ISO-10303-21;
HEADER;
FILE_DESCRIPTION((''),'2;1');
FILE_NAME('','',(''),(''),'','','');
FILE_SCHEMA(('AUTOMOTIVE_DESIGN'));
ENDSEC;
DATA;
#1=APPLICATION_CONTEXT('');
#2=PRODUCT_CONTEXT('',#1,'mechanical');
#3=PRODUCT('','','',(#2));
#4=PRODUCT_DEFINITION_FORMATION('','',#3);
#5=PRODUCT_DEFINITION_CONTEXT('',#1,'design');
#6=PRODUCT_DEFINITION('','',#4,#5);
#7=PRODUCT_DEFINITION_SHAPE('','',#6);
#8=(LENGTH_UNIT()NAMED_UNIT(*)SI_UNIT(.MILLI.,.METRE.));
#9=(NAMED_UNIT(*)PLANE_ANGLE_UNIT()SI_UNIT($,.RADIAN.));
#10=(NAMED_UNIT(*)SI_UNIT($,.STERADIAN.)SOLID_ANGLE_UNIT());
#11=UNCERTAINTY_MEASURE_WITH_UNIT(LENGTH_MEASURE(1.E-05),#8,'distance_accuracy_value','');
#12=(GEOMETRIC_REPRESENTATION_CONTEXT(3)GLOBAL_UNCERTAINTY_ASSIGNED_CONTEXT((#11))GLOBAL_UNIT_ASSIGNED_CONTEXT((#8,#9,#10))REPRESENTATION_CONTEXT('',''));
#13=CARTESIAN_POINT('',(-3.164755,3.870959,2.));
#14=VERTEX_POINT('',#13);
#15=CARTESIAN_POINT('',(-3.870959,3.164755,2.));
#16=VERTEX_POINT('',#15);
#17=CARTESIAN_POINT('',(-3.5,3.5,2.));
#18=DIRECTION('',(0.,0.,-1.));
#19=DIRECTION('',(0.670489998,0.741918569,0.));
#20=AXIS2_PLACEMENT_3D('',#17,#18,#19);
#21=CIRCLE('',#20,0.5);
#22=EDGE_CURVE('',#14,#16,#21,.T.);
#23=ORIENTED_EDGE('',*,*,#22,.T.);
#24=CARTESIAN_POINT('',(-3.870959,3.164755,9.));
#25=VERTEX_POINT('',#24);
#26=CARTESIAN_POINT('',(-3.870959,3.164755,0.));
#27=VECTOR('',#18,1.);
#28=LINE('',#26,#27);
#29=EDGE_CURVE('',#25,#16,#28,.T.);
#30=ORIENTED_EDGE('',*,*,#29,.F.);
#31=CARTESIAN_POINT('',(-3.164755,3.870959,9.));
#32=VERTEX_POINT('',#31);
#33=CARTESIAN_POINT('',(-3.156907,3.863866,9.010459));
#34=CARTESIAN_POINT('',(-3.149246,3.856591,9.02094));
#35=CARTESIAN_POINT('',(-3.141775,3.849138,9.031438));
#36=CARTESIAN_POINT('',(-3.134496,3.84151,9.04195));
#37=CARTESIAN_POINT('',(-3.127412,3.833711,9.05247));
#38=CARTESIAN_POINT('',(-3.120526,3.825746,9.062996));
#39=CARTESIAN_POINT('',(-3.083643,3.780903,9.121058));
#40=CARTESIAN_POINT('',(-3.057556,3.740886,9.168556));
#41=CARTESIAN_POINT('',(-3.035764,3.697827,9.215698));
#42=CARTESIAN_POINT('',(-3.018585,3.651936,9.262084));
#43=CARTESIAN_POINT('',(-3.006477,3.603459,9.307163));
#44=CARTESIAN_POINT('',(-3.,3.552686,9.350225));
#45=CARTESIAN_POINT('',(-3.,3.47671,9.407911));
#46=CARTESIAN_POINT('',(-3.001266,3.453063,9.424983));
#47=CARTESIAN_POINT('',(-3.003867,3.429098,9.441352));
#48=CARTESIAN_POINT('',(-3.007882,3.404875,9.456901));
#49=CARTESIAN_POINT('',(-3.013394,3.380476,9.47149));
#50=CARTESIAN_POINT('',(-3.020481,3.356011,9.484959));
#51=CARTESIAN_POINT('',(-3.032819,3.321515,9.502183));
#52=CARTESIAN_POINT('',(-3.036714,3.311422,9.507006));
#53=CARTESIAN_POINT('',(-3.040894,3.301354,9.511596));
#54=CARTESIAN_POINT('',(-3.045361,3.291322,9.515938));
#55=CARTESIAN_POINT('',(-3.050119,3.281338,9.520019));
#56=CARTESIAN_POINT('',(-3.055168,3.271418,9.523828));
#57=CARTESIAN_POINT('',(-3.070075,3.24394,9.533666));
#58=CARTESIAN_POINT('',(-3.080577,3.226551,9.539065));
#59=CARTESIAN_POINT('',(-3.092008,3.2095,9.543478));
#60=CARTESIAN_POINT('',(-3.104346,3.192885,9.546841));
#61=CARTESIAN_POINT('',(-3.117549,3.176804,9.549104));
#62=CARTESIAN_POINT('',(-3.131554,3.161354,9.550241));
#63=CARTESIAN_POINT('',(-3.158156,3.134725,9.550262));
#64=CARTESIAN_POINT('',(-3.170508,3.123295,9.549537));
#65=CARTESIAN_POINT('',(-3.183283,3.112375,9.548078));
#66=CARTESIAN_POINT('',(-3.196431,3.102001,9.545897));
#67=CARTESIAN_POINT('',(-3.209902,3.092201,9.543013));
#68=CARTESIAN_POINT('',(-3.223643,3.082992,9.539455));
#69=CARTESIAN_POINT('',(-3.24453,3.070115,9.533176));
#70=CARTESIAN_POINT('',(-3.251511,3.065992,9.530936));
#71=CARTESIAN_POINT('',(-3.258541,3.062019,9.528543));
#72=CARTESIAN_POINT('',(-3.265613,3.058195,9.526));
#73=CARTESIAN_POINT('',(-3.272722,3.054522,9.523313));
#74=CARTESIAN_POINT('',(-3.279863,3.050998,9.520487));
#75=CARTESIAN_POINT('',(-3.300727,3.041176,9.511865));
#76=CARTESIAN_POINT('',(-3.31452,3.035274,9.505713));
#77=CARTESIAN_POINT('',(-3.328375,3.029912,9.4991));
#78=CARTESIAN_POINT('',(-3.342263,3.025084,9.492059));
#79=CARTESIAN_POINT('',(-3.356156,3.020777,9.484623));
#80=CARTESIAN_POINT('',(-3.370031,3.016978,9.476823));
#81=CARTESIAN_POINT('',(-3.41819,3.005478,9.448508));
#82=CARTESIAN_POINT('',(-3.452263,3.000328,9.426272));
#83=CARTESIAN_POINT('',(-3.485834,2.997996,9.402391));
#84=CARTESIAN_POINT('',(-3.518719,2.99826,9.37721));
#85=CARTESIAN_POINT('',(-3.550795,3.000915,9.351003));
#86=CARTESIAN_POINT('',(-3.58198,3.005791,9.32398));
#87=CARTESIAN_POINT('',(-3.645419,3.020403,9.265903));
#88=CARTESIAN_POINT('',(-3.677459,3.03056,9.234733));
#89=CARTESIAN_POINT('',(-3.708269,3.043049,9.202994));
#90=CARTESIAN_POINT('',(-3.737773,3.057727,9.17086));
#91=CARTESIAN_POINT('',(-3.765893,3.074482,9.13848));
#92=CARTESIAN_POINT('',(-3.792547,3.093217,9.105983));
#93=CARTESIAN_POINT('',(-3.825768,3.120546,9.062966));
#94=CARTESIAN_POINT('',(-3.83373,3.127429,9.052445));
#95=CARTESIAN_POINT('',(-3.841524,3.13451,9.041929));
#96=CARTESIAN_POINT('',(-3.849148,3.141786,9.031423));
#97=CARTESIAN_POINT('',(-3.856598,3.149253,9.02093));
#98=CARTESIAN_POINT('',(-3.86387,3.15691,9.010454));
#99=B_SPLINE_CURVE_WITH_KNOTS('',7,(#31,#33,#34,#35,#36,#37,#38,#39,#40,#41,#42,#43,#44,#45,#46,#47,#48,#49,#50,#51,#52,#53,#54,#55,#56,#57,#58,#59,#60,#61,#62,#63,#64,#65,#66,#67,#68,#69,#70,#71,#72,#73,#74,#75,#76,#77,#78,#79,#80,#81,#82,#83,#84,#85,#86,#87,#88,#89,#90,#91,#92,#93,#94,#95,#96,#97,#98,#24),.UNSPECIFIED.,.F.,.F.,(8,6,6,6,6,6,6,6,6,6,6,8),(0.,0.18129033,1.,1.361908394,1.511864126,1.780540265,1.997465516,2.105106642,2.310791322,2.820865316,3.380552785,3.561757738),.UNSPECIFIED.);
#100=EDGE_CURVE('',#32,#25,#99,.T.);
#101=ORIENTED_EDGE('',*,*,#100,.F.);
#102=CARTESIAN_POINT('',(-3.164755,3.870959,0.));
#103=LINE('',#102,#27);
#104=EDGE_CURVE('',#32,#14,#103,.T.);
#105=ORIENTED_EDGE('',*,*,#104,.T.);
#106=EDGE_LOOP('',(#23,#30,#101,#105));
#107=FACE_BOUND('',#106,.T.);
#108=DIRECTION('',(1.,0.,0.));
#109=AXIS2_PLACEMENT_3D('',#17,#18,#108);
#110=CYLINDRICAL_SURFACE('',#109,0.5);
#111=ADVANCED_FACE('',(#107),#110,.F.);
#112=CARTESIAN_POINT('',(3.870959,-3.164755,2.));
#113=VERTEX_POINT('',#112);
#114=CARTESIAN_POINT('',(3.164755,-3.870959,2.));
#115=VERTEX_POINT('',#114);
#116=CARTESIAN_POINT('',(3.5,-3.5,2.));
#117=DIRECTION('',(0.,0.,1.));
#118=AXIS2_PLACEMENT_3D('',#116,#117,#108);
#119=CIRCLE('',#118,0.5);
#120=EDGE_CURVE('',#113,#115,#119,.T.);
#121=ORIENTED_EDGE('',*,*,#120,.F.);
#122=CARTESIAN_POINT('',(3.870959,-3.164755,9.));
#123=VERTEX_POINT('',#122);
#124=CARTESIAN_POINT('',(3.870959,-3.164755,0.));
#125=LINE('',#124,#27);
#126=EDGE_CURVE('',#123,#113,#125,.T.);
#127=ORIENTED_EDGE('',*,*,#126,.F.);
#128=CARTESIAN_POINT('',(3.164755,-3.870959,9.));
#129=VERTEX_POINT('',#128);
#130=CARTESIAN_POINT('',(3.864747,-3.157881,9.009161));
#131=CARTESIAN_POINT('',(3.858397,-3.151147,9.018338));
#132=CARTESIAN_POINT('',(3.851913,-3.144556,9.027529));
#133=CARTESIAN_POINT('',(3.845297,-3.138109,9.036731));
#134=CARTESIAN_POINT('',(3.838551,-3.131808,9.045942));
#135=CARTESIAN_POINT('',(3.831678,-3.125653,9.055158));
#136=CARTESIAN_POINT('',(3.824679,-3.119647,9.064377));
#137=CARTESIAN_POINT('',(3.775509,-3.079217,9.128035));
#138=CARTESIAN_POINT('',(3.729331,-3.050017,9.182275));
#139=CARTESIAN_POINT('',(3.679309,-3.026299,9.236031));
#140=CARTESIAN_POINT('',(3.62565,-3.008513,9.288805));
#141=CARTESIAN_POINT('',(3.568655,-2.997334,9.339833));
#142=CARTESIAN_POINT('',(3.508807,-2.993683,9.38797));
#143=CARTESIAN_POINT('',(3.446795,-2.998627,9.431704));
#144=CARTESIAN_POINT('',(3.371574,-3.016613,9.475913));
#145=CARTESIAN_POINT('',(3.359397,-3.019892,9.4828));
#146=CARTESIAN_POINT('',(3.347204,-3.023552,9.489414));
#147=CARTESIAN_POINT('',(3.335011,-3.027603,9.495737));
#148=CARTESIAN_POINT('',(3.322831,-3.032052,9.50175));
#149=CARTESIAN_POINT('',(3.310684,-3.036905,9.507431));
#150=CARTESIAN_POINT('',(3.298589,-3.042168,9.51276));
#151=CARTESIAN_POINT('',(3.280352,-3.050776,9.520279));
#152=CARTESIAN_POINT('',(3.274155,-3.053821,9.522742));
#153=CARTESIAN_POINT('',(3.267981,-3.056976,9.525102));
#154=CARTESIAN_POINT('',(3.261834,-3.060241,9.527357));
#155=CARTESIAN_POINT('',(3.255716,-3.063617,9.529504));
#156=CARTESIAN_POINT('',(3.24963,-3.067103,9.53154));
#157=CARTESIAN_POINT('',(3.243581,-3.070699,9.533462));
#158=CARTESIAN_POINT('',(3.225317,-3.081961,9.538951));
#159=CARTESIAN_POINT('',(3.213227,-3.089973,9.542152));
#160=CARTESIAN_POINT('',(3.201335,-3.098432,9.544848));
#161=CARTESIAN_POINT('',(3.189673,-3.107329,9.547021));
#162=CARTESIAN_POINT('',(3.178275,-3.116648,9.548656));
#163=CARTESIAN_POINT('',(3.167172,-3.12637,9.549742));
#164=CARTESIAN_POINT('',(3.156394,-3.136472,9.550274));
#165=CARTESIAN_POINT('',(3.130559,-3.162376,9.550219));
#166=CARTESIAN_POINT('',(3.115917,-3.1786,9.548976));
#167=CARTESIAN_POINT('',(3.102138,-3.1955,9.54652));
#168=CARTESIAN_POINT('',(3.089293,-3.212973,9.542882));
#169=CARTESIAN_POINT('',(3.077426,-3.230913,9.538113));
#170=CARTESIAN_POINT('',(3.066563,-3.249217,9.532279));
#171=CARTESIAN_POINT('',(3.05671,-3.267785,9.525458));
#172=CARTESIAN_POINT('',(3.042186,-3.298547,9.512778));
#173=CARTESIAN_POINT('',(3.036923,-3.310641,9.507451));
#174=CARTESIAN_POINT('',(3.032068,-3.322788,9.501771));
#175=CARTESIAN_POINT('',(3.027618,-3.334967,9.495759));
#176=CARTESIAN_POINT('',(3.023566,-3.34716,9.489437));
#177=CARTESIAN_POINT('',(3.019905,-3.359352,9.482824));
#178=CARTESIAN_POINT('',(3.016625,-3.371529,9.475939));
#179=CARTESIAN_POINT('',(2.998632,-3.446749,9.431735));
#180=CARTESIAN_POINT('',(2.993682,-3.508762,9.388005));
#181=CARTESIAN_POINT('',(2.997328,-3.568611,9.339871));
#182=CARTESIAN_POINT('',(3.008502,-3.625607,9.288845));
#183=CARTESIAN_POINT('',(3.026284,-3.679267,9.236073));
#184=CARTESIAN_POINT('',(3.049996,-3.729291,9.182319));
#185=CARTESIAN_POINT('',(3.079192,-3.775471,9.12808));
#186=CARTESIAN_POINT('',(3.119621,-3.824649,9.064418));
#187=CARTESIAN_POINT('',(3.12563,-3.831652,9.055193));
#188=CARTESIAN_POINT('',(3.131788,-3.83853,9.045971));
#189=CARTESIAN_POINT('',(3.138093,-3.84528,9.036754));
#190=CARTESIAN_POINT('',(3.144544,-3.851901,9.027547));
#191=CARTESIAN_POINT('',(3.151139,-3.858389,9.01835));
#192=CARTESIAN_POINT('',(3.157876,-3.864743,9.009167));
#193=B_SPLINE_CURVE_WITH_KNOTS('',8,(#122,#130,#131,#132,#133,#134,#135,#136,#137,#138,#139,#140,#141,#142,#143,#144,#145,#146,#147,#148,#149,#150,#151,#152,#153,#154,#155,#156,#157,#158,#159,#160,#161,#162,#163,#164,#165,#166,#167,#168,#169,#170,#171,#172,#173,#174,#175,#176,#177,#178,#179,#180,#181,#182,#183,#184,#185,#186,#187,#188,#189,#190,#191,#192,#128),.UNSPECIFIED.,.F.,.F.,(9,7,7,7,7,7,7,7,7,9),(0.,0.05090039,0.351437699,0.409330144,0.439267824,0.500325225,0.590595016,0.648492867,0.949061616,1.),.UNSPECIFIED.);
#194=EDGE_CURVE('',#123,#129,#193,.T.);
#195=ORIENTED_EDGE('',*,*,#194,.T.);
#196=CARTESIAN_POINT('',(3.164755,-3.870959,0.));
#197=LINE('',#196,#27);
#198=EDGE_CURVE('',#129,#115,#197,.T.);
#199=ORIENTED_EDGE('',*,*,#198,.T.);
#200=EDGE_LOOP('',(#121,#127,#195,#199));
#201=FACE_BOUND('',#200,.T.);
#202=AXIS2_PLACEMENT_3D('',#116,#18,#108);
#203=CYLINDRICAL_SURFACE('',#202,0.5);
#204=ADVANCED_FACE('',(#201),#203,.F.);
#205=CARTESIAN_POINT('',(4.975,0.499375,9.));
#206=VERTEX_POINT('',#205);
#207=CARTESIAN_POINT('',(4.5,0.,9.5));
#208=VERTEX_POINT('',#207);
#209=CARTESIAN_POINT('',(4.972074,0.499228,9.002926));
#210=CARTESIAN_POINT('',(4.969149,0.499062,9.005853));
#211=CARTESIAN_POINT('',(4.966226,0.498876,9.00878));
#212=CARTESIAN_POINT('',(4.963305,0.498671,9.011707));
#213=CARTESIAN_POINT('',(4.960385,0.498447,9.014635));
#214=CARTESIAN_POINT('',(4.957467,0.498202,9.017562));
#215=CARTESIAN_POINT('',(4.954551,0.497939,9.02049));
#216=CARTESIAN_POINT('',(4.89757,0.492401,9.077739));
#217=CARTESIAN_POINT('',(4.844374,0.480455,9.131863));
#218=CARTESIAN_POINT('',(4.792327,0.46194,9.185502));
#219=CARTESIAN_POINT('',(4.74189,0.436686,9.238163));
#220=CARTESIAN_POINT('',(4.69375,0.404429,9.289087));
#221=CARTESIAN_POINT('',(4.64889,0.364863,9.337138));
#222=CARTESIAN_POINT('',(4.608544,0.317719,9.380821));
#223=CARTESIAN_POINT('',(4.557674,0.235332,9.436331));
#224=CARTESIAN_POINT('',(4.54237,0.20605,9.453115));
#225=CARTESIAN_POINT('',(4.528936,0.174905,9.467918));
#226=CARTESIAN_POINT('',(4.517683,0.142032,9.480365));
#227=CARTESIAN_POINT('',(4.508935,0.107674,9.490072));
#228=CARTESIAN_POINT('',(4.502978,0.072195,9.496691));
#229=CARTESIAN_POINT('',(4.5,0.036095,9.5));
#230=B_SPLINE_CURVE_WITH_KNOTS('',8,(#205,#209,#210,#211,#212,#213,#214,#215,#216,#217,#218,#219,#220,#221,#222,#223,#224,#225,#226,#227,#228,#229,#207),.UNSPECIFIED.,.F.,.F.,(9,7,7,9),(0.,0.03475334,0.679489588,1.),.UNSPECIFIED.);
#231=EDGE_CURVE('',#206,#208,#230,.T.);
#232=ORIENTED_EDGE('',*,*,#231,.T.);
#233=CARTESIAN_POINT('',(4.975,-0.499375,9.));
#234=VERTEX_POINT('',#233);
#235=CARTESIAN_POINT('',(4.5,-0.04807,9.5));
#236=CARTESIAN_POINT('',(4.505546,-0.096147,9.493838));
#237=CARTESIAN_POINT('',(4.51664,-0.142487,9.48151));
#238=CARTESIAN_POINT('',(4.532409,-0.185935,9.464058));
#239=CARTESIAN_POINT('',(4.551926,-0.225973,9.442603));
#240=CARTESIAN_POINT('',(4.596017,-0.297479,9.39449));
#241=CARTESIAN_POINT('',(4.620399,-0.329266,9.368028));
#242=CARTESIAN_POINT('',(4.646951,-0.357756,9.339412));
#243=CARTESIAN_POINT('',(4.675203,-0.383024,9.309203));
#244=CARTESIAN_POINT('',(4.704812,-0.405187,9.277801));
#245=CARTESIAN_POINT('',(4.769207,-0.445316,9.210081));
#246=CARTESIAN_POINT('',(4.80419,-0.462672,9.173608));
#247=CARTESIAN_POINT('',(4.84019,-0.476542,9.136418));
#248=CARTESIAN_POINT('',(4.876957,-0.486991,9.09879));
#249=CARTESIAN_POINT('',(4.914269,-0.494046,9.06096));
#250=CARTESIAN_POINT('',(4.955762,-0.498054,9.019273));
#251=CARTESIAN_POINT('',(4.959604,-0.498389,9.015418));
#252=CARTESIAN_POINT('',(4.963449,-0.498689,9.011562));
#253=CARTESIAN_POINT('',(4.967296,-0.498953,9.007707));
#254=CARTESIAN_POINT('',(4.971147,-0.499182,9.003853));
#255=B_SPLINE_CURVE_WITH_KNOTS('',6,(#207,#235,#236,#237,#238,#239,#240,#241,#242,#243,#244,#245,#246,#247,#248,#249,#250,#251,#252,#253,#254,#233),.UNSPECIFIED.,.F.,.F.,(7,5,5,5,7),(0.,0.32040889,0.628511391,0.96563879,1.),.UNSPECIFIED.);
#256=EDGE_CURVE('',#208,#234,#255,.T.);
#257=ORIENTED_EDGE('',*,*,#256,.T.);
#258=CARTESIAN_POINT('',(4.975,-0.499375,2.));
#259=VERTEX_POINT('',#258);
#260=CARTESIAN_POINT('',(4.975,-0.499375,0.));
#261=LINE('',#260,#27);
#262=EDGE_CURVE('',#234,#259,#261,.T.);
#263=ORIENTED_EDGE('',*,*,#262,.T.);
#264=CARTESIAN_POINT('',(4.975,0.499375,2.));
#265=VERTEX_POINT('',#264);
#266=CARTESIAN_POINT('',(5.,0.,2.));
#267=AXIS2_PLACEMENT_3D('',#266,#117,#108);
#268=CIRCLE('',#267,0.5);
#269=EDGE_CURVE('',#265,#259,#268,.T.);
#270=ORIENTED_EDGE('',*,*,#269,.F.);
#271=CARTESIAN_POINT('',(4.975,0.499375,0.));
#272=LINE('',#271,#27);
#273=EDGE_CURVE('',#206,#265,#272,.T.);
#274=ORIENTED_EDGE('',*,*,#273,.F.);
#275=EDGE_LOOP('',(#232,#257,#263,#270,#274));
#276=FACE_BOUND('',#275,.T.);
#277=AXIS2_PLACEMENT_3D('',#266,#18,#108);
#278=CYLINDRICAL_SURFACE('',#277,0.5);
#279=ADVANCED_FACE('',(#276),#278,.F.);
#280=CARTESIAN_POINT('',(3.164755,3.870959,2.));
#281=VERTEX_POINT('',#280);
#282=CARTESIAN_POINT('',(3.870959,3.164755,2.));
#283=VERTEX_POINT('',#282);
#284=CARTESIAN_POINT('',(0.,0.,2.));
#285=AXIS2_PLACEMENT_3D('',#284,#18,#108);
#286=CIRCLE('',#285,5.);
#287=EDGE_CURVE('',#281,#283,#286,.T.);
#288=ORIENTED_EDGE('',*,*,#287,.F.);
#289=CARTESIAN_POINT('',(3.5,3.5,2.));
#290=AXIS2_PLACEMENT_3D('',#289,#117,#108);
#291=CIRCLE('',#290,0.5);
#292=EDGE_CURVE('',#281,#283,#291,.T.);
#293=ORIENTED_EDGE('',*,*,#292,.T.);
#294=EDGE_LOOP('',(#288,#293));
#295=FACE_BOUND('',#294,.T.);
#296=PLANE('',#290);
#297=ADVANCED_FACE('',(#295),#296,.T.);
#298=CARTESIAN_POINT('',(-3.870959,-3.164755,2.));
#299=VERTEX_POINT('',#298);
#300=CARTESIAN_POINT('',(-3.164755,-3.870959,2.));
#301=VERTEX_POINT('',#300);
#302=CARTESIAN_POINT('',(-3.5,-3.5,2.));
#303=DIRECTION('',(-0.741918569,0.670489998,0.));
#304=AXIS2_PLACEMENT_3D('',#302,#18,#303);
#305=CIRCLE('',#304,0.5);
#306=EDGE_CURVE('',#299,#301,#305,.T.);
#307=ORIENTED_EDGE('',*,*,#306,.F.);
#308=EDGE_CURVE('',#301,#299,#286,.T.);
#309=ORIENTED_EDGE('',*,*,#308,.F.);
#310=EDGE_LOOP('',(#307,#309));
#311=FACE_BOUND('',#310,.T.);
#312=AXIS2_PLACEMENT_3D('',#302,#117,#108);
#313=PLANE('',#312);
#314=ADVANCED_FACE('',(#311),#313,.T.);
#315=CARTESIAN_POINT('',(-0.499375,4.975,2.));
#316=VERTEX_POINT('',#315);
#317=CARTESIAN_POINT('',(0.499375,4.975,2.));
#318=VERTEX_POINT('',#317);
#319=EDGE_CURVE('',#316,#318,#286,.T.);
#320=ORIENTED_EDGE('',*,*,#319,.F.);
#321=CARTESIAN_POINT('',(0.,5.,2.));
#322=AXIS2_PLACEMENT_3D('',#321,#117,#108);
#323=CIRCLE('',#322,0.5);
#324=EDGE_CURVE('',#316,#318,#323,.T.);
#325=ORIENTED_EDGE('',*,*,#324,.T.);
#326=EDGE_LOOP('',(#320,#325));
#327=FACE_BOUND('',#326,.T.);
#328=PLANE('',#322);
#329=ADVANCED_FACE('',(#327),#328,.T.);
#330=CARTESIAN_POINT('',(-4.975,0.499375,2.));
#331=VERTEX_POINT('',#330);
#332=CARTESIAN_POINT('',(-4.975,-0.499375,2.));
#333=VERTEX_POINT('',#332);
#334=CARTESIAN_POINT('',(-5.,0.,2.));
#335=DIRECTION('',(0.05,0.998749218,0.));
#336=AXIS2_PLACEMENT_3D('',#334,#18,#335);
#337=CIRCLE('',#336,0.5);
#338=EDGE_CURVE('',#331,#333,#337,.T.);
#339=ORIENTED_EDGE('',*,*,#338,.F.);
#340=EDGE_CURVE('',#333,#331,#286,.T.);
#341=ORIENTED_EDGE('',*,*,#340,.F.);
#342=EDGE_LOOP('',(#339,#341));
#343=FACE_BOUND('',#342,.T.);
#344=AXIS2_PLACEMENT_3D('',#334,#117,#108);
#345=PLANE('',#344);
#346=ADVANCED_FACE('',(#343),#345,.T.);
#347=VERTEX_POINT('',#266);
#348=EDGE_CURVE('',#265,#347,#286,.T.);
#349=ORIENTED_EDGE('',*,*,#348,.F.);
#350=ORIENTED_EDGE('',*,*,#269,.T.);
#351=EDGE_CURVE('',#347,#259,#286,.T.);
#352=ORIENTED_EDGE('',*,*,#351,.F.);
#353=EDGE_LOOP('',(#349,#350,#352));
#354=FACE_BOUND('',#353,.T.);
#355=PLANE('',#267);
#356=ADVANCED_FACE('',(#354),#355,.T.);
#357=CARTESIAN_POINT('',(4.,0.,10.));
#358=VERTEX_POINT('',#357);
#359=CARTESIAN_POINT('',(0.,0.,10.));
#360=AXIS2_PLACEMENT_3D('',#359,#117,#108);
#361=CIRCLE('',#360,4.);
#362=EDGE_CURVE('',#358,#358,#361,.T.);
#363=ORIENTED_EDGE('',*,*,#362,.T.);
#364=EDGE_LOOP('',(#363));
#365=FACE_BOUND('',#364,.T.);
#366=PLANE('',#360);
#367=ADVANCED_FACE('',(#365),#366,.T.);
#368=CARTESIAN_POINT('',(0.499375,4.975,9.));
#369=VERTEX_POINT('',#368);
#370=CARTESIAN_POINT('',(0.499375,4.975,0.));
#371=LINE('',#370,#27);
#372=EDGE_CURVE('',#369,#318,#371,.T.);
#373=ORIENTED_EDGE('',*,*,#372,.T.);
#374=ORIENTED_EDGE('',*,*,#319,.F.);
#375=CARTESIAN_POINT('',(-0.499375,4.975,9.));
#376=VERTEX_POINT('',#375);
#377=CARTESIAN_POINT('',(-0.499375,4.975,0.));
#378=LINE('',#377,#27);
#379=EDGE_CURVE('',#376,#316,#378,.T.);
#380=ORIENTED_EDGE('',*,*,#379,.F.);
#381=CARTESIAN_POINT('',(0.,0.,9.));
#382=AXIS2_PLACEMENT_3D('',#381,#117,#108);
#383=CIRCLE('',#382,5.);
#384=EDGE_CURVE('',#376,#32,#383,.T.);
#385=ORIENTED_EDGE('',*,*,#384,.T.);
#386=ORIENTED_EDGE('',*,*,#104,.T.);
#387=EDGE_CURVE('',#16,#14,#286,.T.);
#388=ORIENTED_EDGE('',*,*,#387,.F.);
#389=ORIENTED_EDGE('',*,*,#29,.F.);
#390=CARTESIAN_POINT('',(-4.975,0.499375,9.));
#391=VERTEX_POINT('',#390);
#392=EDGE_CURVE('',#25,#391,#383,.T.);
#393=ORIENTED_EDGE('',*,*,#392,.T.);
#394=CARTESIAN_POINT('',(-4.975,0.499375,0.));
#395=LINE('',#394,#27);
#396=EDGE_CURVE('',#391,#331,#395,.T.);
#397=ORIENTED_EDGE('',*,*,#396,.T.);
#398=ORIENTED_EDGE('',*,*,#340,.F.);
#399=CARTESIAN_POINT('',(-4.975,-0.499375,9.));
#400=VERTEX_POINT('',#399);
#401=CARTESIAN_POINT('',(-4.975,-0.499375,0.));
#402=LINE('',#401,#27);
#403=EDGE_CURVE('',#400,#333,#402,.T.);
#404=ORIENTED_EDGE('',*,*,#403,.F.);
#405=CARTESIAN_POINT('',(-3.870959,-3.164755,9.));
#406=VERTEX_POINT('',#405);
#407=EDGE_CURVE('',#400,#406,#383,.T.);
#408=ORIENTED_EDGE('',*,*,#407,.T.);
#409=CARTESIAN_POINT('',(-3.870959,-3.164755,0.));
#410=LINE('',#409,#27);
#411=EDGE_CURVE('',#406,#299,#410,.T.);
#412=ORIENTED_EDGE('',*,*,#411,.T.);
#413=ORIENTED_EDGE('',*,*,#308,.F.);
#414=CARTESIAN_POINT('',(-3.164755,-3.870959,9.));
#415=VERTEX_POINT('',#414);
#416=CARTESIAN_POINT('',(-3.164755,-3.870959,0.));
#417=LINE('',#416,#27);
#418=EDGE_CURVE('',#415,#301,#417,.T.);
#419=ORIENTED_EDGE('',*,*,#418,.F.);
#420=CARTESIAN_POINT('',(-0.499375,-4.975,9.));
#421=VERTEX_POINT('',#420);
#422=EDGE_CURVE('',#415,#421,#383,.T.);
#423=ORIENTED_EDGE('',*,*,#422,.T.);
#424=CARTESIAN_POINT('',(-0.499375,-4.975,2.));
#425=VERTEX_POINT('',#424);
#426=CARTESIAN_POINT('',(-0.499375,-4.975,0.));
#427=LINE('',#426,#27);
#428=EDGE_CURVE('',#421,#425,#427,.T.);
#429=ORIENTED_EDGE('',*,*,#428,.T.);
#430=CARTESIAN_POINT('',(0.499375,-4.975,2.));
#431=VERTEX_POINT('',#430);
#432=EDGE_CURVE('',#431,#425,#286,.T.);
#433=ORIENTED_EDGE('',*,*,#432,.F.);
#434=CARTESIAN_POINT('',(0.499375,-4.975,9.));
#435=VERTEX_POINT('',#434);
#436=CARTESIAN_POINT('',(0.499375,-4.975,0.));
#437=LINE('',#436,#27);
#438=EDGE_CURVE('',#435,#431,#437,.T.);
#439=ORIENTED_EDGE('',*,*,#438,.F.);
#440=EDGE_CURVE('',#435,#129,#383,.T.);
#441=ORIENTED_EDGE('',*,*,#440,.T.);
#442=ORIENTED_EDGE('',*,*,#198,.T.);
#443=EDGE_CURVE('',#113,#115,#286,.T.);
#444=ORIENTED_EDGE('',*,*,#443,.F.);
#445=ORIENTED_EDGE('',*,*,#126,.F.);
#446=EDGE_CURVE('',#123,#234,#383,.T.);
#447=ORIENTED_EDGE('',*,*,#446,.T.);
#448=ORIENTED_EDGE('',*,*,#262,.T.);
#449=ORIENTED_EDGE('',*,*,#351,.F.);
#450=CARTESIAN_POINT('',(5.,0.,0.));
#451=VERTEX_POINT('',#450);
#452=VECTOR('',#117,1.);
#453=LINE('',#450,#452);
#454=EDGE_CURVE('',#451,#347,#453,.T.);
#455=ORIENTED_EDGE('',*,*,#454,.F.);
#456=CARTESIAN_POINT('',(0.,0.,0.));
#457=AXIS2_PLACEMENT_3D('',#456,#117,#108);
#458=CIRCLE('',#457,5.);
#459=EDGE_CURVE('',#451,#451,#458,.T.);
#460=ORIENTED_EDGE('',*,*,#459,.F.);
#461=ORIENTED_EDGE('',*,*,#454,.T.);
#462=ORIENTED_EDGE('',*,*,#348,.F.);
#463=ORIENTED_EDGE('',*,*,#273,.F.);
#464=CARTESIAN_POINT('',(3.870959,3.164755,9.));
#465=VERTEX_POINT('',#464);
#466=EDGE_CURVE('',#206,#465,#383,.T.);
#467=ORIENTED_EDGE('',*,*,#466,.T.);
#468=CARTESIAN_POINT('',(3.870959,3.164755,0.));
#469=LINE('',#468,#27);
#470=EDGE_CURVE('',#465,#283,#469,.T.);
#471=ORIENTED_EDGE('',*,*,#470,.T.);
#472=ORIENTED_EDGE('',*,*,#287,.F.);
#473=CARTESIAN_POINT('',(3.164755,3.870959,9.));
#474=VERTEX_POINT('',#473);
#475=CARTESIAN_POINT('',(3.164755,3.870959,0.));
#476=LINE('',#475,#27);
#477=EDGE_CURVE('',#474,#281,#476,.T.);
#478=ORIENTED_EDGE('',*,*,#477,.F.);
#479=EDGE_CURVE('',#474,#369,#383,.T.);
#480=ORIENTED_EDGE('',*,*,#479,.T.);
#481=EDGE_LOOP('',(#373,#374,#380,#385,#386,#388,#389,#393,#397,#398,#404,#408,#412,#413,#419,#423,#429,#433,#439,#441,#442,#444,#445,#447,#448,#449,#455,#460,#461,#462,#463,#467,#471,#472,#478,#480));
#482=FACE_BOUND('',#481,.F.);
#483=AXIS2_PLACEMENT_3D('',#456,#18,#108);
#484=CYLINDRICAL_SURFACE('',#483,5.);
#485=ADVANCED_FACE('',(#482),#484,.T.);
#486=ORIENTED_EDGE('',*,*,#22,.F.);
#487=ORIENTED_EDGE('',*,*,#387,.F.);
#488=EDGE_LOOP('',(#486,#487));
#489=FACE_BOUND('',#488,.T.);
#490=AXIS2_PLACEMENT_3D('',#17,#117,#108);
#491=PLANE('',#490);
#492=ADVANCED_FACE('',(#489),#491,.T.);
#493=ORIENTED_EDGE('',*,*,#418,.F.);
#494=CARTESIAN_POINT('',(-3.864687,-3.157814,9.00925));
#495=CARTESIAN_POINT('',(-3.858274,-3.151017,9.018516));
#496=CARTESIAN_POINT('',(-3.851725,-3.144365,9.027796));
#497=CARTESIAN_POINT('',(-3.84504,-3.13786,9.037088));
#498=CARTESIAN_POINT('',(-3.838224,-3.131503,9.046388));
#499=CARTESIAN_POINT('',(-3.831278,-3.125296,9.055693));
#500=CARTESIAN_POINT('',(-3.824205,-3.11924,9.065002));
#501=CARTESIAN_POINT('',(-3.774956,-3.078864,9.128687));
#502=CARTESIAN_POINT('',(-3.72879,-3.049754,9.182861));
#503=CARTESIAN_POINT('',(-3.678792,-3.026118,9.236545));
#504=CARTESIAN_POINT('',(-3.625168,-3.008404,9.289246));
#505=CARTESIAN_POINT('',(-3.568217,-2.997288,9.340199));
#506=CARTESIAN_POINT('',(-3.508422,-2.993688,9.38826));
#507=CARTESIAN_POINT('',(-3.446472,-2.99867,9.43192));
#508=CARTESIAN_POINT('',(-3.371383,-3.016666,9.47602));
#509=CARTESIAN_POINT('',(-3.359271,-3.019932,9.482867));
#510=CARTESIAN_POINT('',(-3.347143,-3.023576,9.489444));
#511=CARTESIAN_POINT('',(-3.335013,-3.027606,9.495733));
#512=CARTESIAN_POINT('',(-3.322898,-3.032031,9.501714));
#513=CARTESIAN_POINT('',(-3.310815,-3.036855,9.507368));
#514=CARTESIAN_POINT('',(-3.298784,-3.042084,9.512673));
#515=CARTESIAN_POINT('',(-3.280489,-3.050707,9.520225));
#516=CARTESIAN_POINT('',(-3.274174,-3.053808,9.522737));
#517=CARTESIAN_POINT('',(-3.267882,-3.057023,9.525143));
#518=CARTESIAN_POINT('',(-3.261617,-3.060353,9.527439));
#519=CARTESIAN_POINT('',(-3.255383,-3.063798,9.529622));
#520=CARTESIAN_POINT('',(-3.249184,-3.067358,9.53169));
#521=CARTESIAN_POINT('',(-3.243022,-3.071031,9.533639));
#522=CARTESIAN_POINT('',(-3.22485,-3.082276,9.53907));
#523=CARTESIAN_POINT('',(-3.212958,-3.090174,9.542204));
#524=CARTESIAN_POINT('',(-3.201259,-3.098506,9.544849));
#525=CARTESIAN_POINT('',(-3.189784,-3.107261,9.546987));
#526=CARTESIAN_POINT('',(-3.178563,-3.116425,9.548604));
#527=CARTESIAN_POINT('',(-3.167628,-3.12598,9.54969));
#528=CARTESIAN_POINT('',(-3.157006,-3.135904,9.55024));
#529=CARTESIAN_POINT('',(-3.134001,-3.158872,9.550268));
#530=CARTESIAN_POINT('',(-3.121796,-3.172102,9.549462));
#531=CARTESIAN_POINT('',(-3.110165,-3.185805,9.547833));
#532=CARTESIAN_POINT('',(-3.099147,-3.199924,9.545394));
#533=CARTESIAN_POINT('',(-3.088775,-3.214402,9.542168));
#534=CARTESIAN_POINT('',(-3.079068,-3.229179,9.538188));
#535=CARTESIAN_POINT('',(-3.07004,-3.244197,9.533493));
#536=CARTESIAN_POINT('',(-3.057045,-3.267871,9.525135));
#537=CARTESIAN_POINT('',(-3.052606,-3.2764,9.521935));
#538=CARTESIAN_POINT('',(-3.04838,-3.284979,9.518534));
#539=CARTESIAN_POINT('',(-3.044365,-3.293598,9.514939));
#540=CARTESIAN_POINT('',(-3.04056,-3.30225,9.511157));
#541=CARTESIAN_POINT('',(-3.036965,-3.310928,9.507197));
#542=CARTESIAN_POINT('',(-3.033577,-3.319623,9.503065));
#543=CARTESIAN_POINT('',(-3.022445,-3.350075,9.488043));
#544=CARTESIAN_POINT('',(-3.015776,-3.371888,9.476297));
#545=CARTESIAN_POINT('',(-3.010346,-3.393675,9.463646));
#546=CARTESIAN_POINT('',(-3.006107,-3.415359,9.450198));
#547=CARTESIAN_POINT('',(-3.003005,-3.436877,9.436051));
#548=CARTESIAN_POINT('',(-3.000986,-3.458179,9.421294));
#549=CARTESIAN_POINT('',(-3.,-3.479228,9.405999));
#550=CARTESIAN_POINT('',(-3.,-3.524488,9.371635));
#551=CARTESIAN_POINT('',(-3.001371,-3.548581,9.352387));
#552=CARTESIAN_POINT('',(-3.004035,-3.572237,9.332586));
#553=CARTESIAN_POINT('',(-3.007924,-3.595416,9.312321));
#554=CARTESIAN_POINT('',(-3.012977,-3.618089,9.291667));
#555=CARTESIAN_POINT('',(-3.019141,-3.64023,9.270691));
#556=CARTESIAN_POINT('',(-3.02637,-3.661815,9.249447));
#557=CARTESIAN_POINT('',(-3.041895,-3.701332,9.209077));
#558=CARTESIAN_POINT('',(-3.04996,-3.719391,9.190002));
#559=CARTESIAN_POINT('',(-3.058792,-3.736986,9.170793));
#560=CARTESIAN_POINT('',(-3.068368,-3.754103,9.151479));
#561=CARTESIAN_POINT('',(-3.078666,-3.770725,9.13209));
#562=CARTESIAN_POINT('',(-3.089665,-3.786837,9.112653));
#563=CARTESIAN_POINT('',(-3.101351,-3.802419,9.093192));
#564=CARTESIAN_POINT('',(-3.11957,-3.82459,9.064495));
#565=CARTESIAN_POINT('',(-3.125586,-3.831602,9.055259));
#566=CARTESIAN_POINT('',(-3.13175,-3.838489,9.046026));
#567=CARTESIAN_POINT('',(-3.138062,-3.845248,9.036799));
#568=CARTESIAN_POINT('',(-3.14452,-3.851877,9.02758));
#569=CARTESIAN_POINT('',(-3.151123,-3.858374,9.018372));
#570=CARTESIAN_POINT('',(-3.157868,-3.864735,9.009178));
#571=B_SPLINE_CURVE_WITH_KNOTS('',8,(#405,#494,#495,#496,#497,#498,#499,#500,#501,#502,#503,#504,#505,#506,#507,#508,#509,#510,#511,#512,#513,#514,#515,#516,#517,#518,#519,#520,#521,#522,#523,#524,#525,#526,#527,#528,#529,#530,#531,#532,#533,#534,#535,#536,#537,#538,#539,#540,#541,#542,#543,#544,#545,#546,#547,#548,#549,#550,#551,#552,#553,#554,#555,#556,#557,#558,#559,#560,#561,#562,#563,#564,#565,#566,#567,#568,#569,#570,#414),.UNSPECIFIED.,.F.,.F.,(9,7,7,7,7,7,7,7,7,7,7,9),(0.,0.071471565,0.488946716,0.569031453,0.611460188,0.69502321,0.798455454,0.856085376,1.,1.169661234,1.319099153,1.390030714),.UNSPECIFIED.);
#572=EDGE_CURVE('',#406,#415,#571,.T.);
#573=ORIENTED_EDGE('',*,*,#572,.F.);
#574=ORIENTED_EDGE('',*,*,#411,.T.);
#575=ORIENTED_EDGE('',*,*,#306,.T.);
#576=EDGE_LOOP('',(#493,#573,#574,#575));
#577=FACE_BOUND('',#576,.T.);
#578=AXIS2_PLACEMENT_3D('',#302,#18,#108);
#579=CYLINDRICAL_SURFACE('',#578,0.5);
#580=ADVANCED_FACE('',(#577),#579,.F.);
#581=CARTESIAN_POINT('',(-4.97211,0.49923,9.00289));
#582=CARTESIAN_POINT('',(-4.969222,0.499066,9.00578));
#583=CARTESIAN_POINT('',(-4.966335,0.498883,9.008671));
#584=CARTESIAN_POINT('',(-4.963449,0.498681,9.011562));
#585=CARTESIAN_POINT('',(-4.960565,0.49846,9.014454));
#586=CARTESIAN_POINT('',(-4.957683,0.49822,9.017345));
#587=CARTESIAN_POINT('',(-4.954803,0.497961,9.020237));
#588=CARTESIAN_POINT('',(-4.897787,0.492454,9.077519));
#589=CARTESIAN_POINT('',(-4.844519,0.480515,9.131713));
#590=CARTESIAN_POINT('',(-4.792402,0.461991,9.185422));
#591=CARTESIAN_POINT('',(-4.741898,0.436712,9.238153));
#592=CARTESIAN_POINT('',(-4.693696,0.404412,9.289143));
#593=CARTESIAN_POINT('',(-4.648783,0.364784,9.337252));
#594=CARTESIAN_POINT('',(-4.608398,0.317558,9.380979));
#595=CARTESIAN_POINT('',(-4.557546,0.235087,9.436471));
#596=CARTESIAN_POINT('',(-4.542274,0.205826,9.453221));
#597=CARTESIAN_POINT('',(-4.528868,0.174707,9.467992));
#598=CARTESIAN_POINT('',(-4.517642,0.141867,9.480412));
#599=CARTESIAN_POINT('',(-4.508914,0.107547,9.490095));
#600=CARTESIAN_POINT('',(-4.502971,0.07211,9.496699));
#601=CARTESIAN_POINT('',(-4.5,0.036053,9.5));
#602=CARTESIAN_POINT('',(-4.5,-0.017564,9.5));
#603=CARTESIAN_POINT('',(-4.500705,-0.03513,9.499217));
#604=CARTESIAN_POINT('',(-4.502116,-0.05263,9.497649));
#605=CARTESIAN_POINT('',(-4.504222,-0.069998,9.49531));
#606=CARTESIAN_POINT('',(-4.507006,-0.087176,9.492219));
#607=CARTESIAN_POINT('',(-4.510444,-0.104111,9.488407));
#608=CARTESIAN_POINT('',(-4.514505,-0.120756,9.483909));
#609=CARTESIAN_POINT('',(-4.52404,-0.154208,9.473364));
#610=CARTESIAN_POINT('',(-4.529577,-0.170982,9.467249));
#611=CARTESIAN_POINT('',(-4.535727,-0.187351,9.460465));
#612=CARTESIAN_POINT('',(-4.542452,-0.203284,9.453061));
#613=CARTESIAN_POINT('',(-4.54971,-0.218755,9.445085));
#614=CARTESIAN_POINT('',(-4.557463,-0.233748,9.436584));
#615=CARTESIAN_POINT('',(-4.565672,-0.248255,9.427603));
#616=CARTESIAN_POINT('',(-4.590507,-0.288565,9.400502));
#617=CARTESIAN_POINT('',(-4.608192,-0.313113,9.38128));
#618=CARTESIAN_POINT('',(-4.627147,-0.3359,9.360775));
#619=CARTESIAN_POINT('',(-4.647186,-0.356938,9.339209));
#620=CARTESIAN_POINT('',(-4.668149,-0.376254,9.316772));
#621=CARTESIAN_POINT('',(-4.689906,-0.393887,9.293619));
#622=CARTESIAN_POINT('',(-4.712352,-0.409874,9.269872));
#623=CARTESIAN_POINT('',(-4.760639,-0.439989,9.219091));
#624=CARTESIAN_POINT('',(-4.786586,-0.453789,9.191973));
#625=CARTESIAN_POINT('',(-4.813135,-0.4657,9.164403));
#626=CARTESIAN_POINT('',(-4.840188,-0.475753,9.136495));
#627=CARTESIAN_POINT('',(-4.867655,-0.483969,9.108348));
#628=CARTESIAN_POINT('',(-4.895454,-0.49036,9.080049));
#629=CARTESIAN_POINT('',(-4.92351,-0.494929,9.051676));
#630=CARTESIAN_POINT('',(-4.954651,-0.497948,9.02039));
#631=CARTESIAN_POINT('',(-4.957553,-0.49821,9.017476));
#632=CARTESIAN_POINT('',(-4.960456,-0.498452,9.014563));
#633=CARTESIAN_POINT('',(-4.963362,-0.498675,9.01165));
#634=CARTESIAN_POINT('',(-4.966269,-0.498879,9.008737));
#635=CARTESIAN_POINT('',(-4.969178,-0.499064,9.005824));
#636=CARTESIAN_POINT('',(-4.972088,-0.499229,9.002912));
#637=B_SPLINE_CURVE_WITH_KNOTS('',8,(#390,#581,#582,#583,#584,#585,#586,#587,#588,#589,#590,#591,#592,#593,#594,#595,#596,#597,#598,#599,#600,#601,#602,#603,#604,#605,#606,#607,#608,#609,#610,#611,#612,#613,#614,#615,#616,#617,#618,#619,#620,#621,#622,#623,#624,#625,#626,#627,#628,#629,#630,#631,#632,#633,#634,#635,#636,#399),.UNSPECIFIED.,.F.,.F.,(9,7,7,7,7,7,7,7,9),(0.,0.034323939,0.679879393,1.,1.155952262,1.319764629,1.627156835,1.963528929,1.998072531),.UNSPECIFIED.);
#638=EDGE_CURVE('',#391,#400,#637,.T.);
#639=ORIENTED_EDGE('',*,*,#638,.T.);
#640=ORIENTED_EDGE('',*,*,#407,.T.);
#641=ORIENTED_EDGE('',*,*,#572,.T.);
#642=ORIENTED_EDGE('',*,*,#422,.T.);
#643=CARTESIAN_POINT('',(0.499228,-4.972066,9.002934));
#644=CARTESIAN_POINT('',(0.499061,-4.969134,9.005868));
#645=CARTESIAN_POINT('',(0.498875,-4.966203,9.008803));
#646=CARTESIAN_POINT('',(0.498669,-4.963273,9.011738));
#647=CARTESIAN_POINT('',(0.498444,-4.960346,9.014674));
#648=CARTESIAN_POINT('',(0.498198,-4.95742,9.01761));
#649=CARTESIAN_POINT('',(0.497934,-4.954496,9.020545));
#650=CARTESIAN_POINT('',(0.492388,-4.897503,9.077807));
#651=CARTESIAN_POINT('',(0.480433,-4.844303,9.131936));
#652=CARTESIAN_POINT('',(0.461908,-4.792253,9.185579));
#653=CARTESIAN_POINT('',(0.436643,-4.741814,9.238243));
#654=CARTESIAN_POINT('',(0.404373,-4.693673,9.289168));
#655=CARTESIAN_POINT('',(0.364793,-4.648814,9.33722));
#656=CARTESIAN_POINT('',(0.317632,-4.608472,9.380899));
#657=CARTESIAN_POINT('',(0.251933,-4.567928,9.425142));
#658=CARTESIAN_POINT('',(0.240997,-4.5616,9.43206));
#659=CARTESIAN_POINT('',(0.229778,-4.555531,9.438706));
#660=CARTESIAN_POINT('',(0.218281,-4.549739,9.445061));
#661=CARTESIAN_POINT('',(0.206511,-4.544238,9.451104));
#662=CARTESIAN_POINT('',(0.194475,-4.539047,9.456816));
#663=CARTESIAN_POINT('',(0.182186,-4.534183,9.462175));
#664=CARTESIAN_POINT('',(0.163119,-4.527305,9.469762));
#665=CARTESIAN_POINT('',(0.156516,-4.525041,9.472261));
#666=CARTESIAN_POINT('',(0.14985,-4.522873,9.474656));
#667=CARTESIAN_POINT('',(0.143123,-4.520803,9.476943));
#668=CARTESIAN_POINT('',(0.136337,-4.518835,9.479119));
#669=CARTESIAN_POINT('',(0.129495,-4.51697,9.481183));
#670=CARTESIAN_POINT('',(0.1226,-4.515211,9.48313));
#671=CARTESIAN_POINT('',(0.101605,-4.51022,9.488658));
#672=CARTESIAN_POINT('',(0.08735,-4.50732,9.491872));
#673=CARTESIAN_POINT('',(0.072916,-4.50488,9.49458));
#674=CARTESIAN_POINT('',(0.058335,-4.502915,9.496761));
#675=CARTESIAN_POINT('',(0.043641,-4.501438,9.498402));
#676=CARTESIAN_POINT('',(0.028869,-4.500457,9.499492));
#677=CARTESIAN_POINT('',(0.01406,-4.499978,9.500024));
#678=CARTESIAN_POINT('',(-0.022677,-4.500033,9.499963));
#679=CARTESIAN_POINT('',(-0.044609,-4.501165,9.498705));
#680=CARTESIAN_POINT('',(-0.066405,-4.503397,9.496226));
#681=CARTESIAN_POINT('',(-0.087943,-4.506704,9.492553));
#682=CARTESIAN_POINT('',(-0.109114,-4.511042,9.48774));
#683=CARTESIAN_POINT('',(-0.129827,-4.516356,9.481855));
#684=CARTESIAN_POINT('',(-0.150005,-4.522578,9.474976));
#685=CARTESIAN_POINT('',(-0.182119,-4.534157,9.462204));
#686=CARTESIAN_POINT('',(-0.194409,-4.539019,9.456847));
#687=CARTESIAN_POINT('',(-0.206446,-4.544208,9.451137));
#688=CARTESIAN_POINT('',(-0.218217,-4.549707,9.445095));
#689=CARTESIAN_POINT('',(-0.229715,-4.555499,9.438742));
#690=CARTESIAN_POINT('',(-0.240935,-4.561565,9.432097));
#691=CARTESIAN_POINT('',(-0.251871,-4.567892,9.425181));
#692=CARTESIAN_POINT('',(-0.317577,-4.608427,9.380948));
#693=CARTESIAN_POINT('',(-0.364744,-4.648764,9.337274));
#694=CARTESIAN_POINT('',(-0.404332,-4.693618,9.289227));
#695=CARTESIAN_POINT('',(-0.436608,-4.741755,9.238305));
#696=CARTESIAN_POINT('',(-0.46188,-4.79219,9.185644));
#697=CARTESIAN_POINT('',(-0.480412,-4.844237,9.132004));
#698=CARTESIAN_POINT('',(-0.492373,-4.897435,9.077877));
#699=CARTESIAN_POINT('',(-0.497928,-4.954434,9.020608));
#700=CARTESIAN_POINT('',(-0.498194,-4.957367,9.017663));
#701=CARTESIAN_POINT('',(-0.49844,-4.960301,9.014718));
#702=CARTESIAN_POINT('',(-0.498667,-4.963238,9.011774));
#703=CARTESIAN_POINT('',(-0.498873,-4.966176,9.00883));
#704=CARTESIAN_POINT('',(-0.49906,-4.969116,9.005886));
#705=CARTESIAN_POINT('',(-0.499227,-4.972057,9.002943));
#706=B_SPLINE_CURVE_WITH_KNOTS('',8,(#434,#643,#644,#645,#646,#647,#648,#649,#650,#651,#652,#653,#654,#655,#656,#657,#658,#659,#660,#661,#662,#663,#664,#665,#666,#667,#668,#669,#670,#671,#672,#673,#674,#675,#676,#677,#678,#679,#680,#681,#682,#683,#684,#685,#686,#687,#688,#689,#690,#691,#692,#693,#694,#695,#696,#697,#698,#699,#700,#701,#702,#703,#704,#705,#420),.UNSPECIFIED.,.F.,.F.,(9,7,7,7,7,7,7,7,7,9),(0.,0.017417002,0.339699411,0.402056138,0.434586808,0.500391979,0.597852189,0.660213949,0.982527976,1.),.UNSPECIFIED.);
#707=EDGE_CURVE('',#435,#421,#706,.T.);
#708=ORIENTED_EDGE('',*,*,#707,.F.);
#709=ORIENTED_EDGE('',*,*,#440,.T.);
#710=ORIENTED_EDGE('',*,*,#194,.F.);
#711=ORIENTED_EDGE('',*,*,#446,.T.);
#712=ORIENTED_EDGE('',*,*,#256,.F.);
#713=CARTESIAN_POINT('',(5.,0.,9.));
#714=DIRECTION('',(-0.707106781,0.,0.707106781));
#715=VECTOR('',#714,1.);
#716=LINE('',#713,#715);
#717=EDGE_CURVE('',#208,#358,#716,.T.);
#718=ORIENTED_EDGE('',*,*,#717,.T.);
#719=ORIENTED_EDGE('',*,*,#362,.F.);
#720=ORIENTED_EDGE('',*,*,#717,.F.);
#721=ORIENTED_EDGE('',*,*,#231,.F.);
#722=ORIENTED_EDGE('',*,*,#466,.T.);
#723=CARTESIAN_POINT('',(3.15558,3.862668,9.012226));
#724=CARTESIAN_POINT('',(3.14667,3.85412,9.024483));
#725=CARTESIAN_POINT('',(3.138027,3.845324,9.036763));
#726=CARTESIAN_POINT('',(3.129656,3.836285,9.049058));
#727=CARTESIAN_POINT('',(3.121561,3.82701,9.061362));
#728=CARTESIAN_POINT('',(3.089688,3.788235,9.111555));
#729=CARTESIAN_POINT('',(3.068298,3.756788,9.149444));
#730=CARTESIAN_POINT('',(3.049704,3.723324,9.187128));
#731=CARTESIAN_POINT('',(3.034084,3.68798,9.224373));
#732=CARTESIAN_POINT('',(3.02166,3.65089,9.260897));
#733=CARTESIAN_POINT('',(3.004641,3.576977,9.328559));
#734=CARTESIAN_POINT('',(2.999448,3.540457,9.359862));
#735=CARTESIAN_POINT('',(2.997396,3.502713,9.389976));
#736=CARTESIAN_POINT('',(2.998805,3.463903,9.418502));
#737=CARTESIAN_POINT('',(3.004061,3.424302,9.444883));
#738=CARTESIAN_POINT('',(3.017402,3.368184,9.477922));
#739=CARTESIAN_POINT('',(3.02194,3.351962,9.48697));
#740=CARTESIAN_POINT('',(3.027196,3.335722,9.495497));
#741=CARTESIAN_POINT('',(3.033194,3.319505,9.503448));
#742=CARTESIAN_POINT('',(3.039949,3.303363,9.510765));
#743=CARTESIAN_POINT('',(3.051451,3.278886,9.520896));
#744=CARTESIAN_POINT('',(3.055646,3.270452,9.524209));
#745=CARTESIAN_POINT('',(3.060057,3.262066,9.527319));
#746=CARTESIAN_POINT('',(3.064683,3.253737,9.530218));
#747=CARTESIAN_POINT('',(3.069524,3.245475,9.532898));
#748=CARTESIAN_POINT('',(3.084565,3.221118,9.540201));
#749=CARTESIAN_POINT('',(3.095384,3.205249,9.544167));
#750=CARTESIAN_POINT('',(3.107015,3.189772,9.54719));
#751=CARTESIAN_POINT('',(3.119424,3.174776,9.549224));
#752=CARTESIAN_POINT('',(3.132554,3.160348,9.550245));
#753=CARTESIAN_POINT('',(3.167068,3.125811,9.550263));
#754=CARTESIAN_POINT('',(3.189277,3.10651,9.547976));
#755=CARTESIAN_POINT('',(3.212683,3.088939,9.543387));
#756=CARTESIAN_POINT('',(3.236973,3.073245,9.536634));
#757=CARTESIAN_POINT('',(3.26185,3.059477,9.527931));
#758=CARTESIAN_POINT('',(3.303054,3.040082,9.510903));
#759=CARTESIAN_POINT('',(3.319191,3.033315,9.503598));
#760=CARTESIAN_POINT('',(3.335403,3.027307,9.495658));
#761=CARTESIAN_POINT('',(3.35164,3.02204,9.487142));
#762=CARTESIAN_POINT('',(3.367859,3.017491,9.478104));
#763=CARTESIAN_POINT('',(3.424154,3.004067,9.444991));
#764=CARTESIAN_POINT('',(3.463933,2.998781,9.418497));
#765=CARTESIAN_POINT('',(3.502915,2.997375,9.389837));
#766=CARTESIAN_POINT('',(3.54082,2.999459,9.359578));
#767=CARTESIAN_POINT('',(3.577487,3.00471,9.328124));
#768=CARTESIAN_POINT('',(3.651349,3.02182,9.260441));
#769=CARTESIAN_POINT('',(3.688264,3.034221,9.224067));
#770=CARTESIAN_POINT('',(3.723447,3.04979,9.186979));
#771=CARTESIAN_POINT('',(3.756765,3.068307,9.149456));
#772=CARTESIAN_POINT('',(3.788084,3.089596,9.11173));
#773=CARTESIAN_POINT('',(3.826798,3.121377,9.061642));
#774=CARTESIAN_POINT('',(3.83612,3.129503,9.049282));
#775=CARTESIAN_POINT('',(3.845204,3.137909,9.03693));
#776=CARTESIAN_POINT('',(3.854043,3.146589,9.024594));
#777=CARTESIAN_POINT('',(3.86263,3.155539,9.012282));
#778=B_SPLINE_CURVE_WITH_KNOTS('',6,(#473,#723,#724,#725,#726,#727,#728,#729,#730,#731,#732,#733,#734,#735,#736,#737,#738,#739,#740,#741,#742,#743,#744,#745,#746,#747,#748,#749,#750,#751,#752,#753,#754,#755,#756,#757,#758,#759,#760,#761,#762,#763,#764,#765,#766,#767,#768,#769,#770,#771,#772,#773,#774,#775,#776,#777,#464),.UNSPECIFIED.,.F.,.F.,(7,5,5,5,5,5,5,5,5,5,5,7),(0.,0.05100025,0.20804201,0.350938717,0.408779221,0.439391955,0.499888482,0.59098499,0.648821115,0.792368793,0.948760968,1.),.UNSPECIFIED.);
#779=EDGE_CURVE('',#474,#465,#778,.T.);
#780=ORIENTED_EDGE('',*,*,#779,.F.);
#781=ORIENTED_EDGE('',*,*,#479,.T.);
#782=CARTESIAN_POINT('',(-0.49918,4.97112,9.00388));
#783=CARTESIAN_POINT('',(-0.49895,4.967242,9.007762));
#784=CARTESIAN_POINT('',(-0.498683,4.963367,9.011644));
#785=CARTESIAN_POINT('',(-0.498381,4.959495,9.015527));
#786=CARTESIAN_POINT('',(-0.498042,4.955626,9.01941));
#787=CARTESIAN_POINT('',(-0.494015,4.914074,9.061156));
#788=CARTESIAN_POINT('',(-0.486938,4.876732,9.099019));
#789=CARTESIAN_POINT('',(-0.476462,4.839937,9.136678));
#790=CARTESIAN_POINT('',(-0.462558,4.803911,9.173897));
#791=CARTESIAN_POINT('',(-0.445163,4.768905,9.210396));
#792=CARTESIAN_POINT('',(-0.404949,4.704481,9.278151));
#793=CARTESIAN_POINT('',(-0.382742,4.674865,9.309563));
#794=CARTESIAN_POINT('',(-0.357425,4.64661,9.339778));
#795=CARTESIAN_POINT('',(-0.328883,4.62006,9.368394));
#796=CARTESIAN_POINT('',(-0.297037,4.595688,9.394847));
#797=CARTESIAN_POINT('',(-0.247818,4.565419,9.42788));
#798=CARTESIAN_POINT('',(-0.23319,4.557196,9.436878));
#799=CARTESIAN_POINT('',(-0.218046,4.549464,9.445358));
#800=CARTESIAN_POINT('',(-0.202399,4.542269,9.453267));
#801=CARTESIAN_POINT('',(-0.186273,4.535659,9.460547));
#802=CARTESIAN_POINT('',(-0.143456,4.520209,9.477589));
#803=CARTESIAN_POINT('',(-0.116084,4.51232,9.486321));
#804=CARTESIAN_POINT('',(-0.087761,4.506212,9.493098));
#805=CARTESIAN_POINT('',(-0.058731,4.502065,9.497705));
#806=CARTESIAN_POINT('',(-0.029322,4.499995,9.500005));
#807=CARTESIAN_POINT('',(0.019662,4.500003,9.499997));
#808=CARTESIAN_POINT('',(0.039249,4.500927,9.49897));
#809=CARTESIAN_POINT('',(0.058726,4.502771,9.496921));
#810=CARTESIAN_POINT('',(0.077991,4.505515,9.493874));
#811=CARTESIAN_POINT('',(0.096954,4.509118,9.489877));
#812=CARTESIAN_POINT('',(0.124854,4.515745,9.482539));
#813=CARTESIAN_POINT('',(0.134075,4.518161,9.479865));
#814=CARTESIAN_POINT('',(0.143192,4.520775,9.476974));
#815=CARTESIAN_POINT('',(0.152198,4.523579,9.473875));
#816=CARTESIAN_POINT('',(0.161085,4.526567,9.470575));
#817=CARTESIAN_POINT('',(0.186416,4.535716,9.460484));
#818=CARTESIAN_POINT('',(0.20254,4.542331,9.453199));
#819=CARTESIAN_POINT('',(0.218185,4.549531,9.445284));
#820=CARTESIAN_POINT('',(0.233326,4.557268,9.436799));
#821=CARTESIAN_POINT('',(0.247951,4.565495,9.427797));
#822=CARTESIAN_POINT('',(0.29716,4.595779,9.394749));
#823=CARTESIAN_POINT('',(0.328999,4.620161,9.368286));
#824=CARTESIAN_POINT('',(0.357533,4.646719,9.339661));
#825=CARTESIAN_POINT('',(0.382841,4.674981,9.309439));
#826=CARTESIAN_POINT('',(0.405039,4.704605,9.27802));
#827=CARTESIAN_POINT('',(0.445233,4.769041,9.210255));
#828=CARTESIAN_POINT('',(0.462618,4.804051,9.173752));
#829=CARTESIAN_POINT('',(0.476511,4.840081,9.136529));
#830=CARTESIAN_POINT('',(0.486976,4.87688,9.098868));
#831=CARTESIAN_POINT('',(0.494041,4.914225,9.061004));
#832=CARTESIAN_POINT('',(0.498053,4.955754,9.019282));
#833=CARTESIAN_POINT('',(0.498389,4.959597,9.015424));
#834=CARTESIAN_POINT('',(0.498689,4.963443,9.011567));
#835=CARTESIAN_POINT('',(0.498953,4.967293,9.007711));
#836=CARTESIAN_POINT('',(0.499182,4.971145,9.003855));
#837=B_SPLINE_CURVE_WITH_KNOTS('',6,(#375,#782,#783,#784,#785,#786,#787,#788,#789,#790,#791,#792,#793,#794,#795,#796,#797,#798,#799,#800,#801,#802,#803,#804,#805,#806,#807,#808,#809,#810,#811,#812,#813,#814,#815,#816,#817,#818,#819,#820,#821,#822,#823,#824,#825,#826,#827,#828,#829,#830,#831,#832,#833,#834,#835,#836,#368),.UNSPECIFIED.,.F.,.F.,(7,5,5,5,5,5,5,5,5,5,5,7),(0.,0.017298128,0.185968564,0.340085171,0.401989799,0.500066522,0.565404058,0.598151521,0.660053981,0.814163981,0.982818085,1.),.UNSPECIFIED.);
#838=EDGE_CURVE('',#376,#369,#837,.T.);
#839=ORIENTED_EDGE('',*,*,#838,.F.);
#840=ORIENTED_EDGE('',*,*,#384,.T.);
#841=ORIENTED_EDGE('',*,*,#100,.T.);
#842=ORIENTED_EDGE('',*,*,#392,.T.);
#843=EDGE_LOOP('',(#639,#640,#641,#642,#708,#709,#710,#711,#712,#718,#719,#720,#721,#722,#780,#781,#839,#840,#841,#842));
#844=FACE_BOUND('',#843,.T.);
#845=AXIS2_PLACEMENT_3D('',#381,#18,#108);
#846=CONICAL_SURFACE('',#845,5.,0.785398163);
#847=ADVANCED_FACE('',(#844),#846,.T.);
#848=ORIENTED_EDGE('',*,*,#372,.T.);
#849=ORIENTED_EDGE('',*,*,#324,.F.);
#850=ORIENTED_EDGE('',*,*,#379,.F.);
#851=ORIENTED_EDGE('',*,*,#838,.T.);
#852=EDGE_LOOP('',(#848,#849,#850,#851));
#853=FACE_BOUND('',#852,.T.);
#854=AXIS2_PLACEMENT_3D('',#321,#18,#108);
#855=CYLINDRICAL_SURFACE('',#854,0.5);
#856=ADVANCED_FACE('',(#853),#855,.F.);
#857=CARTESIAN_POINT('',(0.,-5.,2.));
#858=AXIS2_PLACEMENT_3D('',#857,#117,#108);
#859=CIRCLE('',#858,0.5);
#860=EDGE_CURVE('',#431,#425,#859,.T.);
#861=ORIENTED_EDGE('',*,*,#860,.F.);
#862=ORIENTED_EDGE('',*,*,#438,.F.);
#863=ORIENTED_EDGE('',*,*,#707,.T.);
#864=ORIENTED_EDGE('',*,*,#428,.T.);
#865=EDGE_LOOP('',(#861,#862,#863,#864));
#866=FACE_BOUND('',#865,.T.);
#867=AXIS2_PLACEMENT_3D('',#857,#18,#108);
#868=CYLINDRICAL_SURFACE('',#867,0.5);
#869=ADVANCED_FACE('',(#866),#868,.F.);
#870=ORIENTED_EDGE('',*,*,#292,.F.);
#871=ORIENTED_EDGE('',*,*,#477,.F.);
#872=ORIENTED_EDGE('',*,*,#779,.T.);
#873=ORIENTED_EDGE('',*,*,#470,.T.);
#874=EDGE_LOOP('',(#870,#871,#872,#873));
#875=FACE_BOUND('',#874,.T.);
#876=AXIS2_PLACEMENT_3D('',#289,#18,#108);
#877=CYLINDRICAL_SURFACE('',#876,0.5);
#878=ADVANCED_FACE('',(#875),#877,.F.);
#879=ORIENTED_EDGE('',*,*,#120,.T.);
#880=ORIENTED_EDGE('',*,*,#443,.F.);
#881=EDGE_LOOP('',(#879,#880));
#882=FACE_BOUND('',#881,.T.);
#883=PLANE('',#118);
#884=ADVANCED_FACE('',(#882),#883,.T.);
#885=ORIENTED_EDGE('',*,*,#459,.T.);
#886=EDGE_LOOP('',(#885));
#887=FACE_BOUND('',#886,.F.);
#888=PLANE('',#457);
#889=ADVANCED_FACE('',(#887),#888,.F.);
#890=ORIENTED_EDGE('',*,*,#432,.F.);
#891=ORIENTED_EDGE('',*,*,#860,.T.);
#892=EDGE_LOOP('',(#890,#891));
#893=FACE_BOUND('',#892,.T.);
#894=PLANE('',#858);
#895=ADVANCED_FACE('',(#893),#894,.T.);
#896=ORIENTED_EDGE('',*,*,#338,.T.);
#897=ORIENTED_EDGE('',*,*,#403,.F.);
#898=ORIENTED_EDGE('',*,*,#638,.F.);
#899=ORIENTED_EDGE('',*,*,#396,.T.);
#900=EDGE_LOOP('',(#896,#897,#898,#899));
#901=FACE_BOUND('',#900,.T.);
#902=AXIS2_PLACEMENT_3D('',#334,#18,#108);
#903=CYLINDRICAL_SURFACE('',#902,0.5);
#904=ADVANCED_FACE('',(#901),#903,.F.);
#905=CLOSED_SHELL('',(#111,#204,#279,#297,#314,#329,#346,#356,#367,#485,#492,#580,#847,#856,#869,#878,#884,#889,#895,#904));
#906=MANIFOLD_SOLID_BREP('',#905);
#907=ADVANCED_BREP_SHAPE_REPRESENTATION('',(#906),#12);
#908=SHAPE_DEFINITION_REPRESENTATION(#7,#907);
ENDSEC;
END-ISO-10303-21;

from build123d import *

# Parameters (mm, degrees)
CYLINDER002_R     = 0.5
CYLINDER002_DEPTH = 10
CYLINDER003_R     = 0.5
CYLINDER003_DEPTH = 10
CYLINDER004_R     = 0.5
CYLINDER004_DEPTH = 10
CYLINDER005_R     = 0.5
CYLINDER005_DEPTH = 10
CYLINDER006_R     = 0.5
CYLINDER006_DEPTH = 10
CYLINDER007_R     = 0.5
CYLINDER007_DEPTH = 10
CYLINDER008_R     = 0.5
CYLINDER008_DEPTH = 10
CYLINDER001_R     = 0.5
CYLINDER001_DEPTH = 10
CYLINDER_R        = 5
CYLINDER_DEPTH    = 10
CHAMFER_SIZE      = 1


with BuildPart() as cylinder002:
    # Cylinder002 → Cylinder002 (new body)
    with BuildSketch(Plane(origin=(-5, 0, 2), x_dir=(1, 0, 0), z_dir=(0, 0, 1))):
        Circle(CYLINDER002_R)
    extrude(amount=CYLINDER002_DEPTH)


with BuildPart() as cylinder003:
    # Cylinder003 → Cylinder003 (new body)
    with BuildSketch(Plane(origin=(0, 5, 2), x_dir=(1, 0, 0), z_dir=(0, 0, 1))):
        Circle(CYLINDER003_R)
    extrude(amount=CYLINDER003_DEPTH)


with BuildPart() as cylinder004:
    # Cylinder004 → Cylinder004 (new body)
    with BuildSketch(Plane(origin=(0, -5, 2), x_dir=(1, 0, 0), z_dir=(0, 0, 1))):
        Circle(CYLINDER004_R)
    extrude(amount=CYLINDER004_DEPTH)


with BuildPart() as cylinder005:
    # Cylinder005 → Cylinder005 (new body)
    with BuildSketch(Plane(origin=(3.5, -3.5, 2), x_dir=(1, 0, 0), z_dir=(0, 0, 1))):
        Circle(CYLINDER005_R)
    extrude(amount=CYLINDER005_DEPTH)


with BuildPart() as cylinder006:
    # Cylinder006 → Cylinder006 (new body)
    with BuildSketch(Plane(origin=(-3.5, 3.5, 2), x_dir=(1, 0, 0), z_dir=(0, 0, 1))):
        Circle(CYLINDER006_R)
    extrude(amount=CYLINDER006_DEPTH)


with BuildPart() as cylinder007:
    # Cylinder007 → Cylinder007 (new body)
    with BuildSketch(Plane(origin=(3.5, 3.5, 2), x_dir=(1, 0, 0), z_dir=(0, 0, 1))):
        Circle(CYLINDER007_R)
    extrude(amount=CYLINDER007_DEPTH)


with BuildPart() as cylinder008:
    # Cylinder008 → Cylinder008 (new body)
    with BuildSketch(Plane(origin=(-3.5, -3.5, 2), x_dir=(1, 0, 0), z_dir=(0, 0, 1))):
        Circle(CYLINDER008_R)
    extrude(amount=CYLINDER008_DEPTH)


with BuildPart() as cylinder001:
    # Cylinder001 → Cylinder001 (new body)
    with BuildSketch(Plane(origin=(5, 0, 2), x_dir=(1, 0, 0), z_dir=(0, 0, 1))):
        Circle(CYLINDER001_R)
    extrude(amount=CYLINDER001_DEPTH)


with BuildPart() as cut007:
    # Cylinder → Cylinder (new body)
    with BuildSketch(Plane.XY):
        Circle(CYLINDER_R)
    extrude(amount=CYLINDER_DEPTH)

    # Chamfer
    chamfer_edges = [cut007.edges().sort_by_distance(p)[0] for p in [
        (-5, 0, 10),
    ]]
    chamfer(chamfer_edges, length=CHAMFER_SIZE)

    # Cut: cut Cylinder001
    add(cylinder001.part, mode=Mode.SUBTRACT)

    # Cut001: cut Cylinder008
    add(cylinder008.part, mode=Mode.SUBTRACT)

    # Cut002: cut Cylinder007
    add(cylinder007.part, mode=Mode.SUBTRACT)

    # Cut003: cut Cylinder006
    add(cylinder006.part, mode=Mode.SUBTRACT)

    # Cut004: cut Cylinder005
    add(cylinder005.part, mode=Mode.SUBTRACT)

    # Cut005: cut Cylinder004
    add(cylinder004.part, mode=Mode.SUBTRACT)

    # Cut006: cut Cylinder003
    add(cylinder003.part, mode=Mode.SUBTRACT)

    # Cut007: cut Cylinder002
    add(cylinder002.part, mode=Mode.SUBTRACT)


solid = cut007.part
